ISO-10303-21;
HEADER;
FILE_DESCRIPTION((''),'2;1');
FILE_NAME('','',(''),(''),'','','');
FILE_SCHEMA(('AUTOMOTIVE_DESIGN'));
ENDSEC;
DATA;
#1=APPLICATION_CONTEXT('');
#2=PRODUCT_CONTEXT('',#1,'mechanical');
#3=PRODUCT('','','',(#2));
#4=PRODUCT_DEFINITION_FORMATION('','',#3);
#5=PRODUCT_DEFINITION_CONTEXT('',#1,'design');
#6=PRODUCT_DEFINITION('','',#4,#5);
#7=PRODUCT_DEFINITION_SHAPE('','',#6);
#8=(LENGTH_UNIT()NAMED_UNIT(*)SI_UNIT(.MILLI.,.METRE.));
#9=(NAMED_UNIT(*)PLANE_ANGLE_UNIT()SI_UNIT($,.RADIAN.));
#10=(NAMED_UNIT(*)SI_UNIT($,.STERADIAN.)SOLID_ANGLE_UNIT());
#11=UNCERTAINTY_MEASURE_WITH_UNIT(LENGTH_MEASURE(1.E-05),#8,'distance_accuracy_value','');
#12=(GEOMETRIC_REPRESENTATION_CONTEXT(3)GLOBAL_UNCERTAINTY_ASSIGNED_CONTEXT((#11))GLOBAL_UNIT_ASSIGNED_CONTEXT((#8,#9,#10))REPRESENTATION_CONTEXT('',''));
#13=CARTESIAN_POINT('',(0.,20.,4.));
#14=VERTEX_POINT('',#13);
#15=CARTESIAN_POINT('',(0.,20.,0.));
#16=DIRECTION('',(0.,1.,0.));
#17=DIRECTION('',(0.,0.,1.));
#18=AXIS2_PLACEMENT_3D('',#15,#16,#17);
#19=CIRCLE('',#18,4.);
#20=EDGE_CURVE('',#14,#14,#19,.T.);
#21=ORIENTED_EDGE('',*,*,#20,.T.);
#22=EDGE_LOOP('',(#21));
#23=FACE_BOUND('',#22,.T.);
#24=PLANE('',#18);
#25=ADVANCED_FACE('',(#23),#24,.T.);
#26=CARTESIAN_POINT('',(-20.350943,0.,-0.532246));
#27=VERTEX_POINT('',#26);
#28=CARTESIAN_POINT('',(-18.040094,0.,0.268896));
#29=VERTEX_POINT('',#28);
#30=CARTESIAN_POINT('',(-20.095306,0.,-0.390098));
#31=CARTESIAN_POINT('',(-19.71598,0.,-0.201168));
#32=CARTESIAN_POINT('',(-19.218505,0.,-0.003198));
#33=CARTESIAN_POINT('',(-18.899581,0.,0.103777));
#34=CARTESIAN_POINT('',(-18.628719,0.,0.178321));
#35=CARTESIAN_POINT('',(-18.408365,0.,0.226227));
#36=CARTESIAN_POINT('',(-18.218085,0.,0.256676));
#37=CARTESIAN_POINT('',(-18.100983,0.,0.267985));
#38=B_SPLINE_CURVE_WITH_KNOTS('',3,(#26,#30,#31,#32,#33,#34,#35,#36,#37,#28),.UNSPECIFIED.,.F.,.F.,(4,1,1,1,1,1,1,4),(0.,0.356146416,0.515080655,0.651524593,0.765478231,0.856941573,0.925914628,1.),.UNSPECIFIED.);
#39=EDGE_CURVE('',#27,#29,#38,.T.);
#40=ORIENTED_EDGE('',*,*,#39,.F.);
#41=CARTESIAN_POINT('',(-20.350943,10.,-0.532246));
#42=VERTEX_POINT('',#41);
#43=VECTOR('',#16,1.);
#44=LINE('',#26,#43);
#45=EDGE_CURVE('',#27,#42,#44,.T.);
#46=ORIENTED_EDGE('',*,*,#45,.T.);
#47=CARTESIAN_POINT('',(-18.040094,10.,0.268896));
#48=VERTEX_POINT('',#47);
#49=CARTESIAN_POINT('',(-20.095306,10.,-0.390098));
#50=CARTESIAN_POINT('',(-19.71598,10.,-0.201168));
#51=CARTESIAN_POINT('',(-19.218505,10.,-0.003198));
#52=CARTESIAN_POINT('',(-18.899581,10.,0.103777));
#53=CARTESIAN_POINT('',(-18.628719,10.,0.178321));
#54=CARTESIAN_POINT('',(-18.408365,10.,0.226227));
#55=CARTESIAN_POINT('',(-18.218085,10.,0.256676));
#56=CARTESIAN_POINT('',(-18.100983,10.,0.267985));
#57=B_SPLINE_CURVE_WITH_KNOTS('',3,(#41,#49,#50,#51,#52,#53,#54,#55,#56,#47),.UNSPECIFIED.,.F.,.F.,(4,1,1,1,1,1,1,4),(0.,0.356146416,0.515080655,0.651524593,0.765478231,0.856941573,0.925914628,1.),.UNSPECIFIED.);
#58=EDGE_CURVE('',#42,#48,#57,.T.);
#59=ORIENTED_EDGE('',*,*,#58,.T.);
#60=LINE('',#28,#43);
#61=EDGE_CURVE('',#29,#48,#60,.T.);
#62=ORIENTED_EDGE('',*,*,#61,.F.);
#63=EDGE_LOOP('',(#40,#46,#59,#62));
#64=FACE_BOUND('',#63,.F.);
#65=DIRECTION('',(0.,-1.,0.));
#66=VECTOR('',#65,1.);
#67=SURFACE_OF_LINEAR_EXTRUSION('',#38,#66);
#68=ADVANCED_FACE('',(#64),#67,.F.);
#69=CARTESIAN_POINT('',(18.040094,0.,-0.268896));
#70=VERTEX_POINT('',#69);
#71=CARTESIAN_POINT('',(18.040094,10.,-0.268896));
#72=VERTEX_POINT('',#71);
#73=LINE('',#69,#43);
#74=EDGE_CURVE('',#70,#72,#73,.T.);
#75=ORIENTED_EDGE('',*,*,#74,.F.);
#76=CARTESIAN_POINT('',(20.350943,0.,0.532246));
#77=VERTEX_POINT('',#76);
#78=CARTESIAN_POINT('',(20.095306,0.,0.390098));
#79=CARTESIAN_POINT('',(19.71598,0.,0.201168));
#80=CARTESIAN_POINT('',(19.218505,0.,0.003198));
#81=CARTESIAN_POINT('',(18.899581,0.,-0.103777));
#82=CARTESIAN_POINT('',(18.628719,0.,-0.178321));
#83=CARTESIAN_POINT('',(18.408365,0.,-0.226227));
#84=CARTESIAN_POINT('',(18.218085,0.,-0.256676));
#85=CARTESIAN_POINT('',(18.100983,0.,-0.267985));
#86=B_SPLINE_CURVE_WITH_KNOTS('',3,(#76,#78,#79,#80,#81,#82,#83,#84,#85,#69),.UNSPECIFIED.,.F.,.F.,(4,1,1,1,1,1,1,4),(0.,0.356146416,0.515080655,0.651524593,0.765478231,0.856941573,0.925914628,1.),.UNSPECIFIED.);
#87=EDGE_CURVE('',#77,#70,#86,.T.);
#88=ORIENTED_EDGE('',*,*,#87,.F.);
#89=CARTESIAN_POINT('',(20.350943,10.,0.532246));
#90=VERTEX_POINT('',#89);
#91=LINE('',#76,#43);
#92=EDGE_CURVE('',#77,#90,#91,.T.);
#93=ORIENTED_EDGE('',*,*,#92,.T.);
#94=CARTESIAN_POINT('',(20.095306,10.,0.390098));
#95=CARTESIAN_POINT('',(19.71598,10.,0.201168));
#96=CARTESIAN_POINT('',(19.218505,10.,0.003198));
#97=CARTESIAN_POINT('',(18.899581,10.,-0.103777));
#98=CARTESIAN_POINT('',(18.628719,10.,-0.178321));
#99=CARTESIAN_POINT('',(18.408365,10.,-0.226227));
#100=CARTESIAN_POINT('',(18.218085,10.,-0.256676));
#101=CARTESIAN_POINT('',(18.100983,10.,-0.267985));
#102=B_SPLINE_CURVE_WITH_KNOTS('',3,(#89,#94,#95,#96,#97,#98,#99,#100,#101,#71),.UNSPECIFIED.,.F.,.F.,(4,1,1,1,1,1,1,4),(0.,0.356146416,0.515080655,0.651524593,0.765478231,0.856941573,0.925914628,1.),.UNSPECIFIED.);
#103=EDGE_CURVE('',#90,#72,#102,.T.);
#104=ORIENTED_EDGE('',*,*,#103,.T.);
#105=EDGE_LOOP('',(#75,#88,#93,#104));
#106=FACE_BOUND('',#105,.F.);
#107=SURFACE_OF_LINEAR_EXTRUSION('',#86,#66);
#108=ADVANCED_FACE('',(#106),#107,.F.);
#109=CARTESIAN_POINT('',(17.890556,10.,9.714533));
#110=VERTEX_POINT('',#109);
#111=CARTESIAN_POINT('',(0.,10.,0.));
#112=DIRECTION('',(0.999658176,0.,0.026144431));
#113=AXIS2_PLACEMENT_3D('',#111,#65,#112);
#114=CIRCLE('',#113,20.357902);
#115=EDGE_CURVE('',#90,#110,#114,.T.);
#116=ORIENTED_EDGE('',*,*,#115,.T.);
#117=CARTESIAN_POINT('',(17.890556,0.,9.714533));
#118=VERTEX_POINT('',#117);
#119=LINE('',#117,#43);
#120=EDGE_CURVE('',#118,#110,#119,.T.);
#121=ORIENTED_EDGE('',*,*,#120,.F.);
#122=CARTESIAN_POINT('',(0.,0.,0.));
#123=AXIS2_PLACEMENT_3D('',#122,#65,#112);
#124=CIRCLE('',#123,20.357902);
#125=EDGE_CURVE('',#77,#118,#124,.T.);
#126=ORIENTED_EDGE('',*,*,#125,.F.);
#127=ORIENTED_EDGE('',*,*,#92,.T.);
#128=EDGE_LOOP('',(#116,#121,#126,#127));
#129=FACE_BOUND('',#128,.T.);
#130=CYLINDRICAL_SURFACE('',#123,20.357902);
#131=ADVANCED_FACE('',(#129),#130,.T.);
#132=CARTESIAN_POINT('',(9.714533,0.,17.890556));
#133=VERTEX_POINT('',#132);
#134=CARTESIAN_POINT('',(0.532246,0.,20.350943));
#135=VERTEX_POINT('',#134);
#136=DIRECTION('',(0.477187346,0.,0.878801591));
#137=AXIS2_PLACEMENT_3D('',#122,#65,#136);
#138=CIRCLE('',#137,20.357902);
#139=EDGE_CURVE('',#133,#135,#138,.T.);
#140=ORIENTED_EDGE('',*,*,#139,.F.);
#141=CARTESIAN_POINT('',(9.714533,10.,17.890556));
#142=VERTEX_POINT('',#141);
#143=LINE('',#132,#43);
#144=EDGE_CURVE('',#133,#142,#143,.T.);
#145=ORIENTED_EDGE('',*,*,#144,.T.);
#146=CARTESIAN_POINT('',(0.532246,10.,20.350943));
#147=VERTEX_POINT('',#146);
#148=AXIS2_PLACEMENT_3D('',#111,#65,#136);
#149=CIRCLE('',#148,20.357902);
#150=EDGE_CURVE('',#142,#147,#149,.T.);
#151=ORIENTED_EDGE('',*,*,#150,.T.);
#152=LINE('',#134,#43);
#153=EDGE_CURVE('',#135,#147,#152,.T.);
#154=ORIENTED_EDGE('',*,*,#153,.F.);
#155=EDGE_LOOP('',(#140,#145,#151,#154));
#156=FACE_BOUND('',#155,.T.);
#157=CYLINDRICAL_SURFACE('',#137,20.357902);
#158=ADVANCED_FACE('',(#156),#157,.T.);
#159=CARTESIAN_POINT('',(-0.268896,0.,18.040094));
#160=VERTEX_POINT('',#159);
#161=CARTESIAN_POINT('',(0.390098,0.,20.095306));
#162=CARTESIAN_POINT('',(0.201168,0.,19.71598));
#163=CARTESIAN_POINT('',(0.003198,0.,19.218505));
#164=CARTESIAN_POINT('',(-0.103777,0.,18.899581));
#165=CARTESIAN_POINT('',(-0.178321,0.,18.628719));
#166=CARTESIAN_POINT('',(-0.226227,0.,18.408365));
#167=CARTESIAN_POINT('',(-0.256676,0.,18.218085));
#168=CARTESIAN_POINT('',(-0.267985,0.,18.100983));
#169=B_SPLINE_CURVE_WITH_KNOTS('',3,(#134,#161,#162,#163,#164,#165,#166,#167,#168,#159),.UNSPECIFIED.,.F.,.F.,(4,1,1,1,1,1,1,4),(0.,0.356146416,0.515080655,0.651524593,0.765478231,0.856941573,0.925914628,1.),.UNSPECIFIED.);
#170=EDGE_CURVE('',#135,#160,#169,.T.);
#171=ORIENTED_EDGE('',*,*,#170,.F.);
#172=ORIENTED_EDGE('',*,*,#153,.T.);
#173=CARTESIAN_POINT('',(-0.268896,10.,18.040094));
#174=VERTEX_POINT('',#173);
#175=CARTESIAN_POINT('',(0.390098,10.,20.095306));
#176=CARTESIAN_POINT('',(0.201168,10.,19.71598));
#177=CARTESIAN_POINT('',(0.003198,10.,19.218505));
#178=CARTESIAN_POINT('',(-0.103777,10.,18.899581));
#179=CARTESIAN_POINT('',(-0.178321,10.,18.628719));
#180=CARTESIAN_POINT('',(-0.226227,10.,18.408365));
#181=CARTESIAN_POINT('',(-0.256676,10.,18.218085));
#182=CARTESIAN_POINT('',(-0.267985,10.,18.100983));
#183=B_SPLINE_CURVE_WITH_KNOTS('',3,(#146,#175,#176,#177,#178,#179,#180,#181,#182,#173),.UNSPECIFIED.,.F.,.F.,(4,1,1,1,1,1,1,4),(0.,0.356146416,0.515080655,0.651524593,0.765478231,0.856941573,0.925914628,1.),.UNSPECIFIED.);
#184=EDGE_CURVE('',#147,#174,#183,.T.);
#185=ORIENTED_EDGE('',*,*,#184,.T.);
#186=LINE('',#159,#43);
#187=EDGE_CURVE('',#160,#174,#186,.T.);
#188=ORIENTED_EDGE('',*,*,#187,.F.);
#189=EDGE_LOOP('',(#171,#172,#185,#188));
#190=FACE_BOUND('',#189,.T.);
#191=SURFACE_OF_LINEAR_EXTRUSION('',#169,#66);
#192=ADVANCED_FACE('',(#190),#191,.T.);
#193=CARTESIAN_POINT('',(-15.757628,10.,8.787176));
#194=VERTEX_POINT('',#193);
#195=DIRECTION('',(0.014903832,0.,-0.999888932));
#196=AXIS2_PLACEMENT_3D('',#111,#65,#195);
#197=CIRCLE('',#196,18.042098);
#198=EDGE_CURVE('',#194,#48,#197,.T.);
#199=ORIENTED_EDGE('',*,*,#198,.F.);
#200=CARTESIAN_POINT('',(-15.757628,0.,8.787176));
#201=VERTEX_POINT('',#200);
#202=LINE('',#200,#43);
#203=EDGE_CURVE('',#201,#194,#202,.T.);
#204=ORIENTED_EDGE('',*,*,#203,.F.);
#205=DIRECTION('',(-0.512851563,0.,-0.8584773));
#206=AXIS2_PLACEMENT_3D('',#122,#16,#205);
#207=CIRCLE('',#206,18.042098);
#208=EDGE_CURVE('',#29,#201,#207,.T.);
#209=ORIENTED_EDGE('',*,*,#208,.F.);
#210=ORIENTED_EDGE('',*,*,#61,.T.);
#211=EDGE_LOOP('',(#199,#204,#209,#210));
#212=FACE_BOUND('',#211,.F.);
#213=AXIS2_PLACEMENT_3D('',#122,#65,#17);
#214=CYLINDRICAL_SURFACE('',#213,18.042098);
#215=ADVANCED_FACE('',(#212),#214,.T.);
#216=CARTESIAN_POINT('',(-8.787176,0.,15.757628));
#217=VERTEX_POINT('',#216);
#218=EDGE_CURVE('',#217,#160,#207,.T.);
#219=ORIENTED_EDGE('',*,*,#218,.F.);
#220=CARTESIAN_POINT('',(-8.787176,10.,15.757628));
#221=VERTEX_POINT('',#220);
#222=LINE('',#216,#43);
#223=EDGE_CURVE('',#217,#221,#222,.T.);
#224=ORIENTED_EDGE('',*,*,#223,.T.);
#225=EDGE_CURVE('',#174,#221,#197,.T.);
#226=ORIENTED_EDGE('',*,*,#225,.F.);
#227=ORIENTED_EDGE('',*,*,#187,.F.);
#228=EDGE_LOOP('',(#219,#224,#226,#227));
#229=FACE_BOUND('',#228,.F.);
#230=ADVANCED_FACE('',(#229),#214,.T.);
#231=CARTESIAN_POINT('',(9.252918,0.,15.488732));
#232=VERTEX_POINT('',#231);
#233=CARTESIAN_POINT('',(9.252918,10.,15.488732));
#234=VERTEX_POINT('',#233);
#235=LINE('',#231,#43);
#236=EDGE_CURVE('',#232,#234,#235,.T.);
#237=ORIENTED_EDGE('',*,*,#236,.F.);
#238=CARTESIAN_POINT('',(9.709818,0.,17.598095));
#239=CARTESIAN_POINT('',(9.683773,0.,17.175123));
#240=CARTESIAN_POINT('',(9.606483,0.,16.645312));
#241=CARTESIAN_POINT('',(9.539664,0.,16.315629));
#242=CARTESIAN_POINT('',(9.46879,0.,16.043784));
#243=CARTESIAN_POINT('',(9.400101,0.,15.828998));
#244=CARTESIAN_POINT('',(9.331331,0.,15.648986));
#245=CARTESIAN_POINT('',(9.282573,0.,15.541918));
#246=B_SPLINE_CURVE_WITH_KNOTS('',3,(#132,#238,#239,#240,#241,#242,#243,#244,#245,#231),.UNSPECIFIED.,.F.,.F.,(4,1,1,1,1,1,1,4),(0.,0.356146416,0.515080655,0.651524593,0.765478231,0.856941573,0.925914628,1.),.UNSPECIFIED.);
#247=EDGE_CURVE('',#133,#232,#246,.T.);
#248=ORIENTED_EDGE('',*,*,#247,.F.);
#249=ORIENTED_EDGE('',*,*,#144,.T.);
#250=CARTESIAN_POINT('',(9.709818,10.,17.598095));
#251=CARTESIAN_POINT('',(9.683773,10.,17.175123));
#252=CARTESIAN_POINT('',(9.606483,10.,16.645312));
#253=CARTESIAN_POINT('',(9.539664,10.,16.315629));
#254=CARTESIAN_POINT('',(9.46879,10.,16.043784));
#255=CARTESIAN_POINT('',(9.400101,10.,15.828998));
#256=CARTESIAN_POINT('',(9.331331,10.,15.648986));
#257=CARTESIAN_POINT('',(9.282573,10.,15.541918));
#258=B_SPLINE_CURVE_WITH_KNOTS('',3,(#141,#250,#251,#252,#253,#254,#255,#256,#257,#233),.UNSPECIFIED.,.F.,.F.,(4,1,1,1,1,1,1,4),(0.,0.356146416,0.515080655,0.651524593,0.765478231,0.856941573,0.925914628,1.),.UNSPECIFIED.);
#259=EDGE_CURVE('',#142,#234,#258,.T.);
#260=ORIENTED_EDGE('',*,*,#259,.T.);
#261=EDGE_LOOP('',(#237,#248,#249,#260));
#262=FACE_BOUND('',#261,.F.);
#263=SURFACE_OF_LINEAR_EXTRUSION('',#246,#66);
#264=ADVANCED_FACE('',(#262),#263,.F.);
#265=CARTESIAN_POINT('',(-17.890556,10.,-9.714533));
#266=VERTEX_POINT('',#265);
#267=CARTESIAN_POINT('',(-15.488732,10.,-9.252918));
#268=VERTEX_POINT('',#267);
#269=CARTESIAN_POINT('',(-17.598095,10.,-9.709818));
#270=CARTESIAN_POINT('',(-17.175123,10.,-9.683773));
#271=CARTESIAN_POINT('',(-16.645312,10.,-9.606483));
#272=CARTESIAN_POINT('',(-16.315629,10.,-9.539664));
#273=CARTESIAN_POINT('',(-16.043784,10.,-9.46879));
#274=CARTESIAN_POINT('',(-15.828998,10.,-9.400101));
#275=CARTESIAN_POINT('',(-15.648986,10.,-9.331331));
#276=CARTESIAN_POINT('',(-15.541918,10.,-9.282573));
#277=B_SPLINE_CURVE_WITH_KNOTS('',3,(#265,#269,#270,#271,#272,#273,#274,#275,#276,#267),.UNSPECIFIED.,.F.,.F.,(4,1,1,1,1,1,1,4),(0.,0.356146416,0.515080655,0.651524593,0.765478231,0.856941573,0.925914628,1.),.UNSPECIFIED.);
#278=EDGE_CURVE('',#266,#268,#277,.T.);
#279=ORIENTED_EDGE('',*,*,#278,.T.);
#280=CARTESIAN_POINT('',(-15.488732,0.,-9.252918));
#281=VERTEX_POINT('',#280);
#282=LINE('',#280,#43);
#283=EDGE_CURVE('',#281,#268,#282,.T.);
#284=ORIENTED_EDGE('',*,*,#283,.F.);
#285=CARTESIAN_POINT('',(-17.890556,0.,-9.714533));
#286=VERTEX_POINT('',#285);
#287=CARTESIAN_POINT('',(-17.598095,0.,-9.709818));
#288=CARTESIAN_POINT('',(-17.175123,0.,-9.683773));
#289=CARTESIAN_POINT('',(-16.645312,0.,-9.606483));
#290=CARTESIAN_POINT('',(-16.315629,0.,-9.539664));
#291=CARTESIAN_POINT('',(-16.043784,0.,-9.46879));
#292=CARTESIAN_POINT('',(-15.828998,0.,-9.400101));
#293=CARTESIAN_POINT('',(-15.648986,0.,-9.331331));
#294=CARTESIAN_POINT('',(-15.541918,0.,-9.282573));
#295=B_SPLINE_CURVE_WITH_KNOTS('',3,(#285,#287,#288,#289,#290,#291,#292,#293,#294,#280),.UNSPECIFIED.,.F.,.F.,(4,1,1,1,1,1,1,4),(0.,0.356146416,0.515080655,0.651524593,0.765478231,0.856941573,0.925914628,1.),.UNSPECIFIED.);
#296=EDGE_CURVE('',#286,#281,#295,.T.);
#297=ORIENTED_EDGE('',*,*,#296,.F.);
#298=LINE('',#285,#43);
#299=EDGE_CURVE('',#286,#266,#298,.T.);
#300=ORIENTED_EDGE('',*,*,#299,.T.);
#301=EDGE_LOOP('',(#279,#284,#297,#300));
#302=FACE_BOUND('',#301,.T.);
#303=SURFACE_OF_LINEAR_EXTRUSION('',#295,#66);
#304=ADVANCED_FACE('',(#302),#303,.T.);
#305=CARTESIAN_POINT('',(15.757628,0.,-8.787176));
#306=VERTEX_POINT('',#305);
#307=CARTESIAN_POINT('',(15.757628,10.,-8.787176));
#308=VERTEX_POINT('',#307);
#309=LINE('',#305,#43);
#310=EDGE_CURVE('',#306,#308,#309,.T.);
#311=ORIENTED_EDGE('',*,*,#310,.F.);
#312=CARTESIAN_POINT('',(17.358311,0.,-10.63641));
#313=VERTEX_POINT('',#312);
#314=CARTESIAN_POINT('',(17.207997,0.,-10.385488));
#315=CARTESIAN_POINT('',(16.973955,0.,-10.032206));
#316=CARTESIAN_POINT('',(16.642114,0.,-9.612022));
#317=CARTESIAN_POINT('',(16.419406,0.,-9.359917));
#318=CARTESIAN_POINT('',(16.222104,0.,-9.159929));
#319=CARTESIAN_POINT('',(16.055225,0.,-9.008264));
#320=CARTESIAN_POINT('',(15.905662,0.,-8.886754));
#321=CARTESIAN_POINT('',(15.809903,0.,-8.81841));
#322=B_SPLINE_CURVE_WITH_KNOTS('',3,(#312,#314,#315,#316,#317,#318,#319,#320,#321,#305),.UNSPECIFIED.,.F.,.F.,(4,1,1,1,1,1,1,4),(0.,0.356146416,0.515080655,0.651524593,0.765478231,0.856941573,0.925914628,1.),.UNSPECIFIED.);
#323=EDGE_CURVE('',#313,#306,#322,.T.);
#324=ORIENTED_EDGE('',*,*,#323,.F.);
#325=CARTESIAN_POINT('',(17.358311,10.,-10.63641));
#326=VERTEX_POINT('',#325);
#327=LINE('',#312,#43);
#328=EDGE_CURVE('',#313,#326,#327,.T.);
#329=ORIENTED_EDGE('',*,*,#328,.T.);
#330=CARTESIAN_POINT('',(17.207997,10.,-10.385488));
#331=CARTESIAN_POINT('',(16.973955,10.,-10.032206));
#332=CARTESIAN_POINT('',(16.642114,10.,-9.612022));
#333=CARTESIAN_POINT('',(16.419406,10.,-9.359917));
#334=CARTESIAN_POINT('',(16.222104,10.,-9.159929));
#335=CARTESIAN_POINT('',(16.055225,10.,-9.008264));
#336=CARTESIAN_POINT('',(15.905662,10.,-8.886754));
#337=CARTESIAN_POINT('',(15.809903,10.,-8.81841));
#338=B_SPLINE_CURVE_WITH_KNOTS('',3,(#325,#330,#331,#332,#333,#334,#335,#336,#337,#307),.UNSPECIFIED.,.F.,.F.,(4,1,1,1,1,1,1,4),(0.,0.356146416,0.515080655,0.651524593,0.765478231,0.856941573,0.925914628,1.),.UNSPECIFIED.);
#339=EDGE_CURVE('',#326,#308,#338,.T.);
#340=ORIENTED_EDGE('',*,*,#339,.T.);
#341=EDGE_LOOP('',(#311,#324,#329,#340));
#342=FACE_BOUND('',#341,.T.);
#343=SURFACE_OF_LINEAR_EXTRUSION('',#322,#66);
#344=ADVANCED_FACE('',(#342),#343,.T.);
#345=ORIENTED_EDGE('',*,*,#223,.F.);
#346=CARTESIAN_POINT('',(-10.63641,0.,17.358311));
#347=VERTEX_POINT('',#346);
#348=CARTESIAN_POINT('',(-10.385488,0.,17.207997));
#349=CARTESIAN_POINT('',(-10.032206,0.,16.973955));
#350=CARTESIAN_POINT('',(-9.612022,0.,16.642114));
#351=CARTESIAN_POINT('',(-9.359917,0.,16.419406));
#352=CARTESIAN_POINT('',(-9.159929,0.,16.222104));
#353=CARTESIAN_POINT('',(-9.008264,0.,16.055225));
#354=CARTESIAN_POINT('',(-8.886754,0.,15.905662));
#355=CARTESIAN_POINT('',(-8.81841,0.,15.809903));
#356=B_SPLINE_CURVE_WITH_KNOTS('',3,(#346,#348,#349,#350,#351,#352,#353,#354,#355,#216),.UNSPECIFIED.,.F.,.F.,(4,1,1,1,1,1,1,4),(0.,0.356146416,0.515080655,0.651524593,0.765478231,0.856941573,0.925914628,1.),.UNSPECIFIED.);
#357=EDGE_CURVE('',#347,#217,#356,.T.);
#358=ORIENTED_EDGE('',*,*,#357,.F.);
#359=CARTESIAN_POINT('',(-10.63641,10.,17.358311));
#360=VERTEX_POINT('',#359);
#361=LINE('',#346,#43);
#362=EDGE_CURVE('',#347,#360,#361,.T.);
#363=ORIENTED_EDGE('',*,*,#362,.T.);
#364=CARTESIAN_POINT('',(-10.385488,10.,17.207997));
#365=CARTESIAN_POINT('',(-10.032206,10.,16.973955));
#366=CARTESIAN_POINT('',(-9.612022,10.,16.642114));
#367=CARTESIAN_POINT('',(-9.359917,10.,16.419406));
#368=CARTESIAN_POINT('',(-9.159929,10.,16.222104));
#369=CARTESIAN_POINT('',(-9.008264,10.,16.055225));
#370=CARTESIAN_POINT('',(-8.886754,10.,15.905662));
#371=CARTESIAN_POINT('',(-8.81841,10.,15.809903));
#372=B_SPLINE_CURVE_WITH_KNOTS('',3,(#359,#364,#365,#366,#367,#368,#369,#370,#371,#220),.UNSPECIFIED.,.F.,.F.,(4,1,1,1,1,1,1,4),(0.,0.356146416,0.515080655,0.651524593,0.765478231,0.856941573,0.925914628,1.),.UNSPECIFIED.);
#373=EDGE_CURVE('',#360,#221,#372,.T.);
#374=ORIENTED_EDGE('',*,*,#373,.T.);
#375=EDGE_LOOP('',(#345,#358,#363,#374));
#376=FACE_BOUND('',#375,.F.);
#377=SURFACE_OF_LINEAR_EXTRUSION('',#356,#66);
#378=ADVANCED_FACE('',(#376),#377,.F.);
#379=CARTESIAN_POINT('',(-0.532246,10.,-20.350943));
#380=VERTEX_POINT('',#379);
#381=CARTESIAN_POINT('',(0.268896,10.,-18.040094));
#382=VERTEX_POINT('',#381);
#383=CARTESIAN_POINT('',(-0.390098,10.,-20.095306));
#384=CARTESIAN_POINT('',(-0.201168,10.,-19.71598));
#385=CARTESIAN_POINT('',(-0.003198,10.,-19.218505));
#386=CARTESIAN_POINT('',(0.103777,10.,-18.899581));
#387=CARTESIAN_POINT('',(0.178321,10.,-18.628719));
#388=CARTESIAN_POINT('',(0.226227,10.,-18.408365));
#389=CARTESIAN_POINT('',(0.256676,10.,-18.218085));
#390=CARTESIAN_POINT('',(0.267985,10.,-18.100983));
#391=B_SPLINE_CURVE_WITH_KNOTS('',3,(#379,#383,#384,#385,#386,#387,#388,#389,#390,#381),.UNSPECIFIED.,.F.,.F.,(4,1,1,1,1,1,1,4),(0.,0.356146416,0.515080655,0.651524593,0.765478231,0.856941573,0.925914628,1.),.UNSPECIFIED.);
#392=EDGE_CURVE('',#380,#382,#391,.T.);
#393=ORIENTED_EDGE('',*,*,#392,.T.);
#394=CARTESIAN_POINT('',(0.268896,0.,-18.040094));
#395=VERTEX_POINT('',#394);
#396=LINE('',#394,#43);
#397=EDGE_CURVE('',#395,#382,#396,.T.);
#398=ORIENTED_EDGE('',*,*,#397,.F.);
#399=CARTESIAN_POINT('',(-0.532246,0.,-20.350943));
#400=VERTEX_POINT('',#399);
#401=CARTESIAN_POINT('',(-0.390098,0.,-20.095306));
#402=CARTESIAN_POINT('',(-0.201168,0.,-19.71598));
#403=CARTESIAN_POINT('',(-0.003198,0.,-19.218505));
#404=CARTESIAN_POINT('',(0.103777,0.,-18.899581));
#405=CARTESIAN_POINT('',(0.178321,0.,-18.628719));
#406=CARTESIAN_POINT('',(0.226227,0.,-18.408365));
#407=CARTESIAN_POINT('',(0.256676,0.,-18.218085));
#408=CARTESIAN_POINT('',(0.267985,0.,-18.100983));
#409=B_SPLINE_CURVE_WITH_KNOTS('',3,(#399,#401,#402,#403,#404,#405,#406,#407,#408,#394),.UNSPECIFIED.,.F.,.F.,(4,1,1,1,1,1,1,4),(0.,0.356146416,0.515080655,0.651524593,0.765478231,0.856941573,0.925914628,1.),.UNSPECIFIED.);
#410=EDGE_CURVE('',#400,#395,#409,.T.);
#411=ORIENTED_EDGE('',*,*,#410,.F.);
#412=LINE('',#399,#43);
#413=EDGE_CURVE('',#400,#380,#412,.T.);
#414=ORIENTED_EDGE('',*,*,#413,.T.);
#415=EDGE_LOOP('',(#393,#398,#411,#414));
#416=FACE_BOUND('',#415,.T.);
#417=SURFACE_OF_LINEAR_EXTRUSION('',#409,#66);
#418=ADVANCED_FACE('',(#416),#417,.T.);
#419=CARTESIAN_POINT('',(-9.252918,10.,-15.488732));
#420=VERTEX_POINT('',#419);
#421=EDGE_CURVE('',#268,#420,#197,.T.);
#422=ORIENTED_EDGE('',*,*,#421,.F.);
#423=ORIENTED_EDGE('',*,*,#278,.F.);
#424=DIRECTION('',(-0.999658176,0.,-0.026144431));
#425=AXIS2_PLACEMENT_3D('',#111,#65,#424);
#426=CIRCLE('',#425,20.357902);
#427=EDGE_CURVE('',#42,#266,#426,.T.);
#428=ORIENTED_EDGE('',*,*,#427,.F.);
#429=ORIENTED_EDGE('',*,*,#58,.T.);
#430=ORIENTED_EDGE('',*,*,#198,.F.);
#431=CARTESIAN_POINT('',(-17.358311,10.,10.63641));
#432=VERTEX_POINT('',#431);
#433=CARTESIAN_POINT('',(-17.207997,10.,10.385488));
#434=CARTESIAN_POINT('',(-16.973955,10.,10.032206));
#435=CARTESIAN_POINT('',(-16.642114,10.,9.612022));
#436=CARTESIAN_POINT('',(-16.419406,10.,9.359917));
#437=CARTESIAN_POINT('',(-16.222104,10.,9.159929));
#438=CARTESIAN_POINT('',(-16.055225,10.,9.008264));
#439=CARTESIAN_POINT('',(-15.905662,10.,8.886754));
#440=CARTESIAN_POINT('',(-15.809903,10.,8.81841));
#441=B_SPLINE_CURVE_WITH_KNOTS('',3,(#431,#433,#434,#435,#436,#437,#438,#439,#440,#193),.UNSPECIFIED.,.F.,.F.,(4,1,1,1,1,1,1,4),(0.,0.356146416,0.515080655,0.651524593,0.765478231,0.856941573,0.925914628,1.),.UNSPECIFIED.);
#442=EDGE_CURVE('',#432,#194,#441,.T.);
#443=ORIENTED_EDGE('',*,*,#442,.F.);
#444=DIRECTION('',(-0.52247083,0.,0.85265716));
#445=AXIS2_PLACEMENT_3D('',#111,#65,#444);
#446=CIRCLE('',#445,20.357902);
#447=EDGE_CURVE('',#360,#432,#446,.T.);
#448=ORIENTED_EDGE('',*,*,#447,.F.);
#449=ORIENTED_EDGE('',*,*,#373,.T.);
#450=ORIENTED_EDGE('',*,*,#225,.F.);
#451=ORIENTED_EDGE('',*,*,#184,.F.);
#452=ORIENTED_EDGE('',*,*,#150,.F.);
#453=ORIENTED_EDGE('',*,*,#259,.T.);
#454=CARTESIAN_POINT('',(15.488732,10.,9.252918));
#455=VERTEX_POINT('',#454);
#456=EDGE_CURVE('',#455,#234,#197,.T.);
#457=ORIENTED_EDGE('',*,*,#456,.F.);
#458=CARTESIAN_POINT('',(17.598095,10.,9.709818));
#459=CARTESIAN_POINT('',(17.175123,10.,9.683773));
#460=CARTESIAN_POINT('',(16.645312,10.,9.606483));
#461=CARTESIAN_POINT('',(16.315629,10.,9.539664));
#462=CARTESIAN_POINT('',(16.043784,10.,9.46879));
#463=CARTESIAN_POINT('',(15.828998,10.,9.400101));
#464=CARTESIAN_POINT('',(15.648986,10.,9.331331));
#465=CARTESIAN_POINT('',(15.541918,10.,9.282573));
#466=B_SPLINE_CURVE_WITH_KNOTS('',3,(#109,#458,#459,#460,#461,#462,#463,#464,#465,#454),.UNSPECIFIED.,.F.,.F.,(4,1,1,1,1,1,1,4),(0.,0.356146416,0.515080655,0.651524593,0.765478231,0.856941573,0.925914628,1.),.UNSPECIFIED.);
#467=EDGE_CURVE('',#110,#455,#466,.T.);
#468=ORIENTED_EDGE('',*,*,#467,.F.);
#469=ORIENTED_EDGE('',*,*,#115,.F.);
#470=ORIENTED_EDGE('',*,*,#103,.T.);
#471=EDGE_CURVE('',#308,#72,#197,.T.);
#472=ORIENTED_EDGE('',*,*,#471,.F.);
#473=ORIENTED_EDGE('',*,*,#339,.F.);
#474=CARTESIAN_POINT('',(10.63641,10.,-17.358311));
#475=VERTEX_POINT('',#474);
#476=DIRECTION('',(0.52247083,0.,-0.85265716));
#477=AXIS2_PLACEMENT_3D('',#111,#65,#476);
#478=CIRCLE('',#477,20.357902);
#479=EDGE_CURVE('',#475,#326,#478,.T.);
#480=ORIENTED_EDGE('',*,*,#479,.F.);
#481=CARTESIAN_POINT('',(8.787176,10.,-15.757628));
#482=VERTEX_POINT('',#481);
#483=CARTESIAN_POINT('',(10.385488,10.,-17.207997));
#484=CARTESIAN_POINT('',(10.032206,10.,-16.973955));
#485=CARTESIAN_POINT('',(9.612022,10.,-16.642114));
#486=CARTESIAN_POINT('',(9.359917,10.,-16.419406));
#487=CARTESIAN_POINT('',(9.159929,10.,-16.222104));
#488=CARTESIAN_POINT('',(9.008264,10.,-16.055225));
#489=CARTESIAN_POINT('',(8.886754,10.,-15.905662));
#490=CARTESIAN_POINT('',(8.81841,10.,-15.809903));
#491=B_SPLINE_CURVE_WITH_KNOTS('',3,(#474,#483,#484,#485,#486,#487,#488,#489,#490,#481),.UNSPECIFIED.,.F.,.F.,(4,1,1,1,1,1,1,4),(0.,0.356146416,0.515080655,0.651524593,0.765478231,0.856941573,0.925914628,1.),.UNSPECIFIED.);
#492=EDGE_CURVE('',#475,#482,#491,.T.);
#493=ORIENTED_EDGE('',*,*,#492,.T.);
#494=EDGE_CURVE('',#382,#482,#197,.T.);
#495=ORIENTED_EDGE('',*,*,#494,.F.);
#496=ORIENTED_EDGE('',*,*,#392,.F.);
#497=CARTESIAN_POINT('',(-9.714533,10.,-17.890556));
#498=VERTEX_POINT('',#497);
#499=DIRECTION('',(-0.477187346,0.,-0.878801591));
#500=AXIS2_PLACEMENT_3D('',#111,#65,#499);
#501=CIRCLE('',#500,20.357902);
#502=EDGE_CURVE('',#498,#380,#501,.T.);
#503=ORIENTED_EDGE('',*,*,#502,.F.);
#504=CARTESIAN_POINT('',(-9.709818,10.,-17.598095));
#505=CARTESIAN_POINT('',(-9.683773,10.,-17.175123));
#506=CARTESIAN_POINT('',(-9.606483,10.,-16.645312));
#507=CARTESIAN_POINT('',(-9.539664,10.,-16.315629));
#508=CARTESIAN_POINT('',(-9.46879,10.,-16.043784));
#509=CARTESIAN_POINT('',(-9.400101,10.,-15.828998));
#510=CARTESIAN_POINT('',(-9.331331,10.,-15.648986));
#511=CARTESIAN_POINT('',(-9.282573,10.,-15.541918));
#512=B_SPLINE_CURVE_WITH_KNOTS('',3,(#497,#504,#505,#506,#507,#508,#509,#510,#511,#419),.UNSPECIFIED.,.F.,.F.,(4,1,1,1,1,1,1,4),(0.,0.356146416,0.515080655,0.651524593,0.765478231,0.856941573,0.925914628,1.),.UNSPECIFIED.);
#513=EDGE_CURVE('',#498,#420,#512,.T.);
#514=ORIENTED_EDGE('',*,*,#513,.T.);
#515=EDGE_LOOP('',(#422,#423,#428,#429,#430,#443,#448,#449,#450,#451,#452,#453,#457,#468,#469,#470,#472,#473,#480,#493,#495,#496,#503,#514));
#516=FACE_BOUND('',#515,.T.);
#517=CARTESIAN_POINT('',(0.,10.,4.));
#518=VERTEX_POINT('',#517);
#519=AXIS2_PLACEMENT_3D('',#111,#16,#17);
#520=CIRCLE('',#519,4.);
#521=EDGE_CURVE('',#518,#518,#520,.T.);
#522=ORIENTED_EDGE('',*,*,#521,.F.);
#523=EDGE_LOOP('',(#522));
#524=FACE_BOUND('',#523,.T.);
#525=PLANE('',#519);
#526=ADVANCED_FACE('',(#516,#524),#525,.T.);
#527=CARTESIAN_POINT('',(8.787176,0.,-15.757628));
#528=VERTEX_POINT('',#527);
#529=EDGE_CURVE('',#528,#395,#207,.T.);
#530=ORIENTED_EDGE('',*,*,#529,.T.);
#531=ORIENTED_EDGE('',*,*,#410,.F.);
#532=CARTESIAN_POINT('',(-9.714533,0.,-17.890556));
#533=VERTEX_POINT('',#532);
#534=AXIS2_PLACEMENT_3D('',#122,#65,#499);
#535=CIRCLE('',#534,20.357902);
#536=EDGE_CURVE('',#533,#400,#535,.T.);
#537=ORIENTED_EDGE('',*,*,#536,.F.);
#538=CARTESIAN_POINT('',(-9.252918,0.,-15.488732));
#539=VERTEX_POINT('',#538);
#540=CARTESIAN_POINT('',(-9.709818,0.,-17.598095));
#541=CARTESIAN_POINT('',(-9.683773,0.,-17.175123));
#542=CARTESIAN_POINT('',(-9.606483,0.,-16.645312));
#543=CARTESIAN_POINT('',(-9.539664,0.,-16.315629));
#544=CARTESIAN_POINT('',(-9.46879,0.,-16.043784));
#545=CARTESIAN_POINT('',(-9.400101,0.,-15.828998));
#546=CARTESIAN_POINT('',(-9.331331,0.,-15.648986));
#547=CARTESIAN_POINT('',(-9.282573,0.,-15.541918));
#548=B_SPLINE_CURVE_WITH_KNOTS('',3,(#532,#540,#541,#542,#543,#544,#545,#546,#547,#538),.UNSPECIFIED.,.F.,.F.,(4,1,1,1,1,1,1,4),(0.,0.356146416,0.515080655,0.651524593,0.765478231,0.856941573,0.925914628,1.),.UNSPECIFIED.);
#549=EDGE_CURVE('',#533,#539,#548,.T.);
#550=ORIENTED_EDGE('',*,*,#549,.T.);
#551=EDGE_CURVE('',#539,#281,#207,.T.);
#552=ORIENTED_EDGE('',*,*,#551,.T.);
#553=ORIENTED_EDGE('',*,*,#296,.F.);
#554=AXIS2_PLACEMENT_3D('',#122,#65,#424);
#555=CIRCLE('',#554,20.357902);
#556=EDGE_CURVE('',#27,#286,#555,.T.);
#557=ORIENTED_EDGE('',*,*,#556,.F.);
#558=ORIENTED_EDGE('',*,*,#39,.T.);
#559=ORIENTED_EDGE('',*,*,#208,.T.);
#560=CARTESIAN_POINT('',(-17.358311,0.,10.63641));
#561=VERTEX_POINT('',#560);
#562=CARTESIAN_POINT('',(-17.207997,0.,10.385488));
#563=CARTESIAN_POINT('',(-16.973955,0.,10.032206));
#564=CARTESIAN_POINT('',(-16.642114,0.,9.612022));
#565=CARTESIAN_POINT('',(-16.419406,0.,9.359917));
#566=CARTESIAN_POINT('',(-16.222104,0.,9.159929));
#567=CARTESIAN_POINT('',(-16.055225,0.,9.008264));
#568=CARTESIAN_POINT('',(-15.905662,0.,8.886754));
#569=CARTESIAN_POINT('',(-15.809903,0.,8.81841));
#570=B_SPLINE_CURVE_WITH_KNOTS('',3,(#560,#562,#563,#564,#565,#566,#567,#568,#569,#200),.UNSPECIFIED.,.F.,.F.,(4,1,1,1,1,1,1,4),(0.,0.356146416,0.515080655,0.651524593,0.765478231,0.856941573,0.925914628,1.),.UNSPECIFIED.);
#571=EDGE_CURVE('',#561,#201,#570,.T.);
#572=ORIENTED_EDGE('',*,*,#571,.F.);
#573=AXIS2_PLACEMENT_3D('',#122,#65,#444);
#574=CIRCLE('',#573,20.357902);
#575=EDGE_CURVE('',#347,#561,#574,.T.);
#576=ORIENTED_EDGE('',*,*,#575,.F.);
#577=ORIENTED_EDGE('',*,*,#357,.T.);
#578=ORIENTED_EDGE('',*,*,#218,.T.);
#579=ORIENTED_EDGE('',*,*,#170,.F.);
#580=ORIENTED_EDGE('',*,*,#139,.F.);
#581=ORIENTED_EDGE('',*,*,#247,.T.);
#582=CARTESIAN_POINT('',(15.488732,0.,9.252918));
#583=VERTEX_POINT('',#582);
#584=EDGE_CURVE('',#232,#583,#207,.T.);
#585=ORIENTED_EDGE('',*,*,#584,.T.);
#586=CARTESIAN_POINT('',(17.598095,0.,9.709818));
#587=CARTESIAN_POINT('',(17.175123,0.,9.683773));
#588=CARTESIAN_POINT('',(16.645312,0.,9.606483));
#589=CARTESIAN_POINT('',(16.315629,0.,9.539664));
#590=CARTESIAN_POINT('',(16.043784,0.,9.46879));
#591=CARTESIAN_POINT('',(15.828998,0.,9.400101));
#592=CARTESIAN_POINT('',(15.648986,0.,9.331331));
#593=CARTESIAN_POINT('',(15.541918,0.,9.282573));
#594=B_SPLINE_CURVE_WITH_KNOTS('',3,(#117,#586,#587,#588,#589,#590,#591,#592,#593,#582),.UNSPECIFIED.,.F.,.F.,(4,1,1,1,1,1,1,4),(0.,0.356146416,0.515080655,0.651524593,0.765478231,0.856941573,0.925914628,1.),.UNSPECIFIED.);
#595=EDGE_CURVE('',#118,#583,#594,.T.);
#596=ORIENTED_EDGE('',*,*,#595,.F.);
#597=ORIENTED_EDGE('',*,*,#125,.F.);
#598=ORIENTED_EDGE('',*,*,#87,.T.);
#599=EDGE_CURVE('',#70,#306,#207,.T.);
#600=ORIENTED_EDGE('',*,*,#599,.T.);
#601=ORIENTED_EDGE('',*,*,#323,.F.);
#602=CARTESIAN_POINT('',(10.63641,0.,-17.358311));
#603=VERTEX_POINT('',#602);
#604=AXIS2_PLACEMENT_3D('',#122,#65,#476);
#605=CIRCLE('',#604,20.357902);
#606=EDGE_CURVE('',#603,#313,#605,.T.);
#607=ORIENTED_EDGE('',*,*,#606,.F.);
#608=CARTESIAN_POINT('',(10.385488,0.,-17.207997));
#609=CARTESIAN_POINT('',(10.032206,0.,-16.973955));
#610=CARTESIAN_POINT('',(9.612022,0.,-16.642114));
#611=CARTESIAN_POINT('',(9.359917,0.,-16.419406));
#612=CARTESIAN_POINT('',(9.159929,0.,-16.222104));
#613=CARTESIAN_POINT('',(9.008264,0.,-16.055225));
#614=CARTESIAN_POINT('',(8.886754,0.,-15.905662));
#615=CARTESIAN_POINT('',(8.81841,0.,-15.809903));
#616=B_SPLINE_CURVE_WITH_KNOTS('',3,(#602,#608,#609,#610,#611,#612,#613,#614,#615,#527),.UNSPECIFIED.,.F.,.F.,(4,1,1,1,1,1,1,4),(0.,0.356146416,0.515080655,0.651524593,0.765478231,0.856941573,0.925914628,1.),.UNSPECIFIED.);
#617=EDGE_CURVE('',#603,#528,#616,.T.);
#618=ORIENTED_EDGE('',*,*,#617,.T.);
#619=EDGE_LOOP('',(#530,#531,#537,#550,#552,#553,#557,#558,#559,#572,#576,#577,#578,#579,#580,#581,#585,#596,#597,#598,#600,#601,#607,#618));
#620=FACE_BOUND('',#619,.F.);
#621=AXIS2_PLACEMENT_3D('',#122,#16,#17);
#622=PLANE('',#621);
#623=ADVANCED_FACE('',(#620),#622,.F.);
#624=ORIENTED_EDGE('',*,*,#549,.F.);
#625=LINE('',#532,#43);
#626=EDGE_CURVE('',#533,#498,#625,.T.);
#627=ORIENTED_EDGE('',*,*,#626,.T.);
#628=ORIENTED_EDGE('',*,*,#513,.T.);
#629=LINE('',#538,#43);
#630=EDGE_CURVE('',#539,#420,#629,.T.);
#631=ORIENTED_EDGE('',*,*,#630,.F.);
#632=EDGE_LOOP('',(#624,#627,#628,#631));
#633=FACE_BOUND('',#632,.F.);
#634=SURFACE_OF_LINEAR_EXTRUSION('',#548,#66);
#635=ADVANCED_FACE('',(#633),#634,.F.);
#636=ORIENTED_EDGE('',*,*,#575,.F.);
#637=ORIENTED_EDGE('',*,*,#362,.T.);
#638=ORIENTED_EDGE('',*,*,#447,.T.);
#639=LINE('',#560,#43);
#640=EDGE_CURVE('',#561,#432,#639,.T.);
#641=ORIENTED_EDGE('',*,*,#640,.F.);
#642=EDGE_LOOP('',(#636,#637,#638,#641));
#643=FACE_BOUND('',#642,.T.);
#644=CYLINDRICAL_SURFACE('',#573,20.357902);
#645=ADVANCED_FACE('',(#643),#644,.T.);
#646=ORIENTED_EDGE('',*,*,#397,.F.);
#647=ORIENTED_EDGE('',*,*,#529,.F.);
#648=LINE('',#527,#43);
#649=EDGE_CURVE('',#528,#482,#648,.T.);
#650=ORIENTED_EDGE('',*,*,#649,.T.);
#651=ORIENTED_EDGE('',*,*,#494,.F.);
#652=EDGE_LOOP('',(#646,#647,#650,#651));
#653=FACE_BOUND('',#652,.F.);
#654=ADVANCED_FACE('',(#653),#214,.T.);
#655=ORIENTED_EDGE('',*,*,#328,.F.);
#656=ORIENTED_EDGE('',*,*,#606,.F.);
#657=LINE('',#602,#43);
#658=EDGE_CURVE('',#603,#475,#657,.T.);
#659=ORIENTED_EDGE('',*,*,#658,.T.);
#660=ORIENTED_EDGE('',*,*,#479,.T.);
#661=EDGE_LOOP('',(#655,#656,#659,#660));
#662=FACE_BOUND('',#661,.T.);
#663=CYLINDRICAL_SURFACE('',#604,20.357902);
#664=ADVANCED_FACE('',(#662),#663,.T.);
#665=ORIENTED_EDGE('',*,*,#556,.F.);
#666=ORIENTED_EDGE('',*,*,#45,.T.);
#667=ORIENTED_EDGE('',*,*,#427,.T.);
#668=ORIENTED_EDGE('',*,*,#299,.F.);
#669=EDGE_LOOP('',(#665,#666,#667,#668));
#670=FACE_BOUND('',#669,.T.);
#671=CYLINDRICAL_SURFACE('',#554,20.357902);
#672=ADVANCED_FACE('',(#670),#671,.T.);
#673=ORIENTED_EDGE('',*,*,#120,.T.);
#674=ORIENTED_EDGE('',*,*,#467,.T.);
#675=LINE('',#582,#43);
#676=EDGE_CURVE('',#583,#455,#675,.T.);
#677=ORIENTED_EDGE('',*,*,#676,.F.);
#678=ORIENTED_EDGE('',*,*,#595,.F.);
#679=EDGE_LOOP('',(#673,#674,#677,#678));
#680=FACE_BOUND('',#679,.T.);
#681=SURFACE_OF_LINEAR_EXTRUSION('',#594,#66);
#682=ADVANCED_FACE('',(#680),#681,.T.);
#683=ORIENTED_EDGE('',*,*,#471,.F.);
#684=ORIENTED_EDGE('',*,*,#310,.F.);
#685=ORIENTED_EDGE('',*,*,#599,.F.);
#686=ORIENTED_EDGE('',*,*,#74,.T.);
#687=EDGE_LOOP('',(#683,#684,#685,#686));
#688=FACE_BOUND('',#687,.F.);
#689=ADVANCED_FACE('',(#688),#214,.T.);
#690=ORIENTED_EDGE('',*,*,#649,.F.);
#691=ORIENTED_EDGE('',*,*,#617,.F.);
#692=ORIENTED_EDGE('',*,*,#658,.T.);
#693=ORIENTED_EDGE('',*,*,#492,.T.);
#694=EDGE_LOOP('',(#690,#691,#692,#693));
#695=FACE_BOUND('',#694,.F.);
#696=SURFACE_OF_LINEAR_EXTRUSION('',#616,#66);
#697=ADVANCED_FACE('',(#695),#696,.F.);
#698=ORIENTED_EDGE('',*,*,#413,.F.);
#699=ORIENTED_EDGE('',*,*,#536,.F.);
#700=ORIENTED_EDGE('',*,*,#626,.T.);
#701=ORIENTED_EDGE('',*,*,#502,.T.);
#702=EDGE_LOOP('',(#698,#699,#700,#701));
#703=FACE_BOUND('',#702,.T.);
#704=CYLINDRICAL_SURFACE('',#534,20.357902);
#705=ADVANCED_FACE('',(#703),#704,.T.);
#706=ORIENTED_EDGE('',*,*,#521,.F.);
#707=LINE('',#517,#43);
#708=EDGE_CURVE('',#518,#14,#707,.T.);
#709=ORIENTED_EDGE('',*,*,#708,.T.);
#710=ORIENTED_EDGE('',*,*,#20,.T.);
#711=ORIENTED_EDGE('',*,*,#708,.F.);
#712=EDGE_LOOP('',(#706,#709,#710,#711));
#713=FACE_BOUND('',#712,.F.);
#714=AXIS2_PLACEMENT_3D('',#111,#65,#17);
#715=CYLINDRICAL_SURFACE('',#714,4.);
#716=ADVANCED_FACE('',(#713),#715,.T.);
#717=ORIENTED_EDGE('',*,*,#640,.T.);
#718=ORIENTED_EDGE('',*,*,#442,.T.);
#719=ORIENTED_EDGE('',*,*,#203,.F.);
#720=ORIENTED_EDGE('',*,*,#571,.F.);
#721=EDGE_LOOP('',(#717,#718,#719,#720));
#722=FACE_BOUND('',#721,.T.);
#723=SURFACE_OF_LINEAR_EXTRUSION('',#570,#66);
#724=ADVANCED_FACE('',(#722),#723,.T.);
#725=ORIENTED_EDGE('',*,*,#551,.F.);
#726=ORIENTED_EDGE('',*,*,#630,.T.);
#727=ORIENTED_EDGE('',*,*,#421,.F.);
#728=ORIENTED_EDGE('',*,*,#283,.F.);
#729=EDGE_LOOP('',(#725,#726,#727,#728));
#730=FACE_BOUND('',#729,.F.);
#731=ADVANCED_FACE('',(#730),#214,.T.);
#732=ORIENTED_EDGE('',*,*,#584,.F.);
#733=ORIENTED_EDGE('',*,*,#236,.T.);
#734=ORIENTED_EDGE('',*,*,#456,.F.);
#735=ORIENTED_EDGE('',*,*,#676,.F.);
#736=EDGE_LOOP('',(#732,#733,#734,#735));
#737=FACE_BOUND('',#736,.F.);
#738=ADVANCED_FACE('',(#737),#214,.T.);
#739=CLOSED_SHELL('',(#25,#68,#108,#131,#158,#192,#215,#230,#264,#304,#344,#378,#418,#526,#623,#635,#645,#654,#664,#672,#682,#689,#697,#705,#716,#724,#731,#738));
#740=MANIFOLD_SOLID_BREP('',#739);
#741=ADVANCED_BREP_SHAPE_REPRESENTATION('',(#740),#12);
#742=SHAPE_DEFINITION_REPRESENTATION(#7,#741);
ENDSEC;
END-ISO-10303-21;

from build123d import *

# Parameters (mm, degrees)
SKETCH_1_R               = 18.042098319
EXTRUDE_1_DEPTH          = 10
EXTRUDE_2_DEPTH          = 10
PATTERN_CIRCULAR_1_COUNT = 6
SKETCH_5_R               = 4
EXTRUDE_3_DEPTH          = 10


with BuildPart() as part:
    # ｽｹｯﾁ1 → ﾎﾞｽ - 押し出し1 (new body)
    with BuildSketch(Plane(origin=(0, 0, 0), x_dir=(1, 0, 0), z_dir=(0, 1, 0))):
        with Locations(Location((0, 0, 0), (0, 0, 270))):
            Circle(SKETCH_1_R)
    extrude(amount=EXTRUDE_1_DEPTH)

    # ｽｹｯﾁ4 → ﾎﾞｽ - 押し出し2 (add)
    with BuildSketch(Plane(origin=(0, 0, 0), x_dir=(1, 0, 0), z_dir=(0, 1, 0))):
        with BuildLine():
            ThreePointArc((0.268896403, 18.040094414), (-4.669638659, 17.427328727), (-9.252918324, 15.488731848))
            add(Edge.make_bspline(
                [(-9.714533079, 17.890556389), (-9.709818433, 17.598094858), (-9.683773216, 17.175123253), (-9.606482839, 16.645312354), (-9.53966415, 16.315628537), (-9.468789573, 16.043783597), (-9.40010103, 15.828997964), (-9.331330572, 15.648985933), (-9.28257301, 15.54191839), (-9.252918324, 15.488731848)],
                knots=[0, 0, 0, 0, 0.356146416, 0.515080655, 0.651524593, 0.765478231, 0.856941573, 0.925914628, 1, 1, 1, 1], degree=3))
            ThreePointArc((-9.714533079, 17.890556389), (-5.269012673, 19.664223003), (-0.532245762, 20.35094286))
            add(Edge.make_bspline(
                [(-0.532245762, 20.35094286), (-0.390098, 20.095306422), (-0.201168016, 19.715979658), (-0.003197997, 19.218504772), (0.103777229, 18.899580866), (0.178320514, 18.628718954), (0.226227308, 18.408364869), (0.25667636, 18.218084648), (0.267984844, 18.100982654), (0.268896403, 18.040094414)],
                knots=[0, 0, 0, 0, 0.356146416, 0.515080655, 0.651524593, 0.765478231, 0.856941573, 0.925914628, 1, 1, 1, 1], degree=3))
        make_face()
    extrude_2 = extrude(amount=EXTRUDE_2_DEPTH)

    # 円形ﾊﾟﾀｰﾝ1: ﾎﾞｽ - 押し出し2 ×6 about axis
    pattern_circular_1_axis = Axis((0, 10, 0), (0, 1, 0))
    for i in range(1, PATTERN_CIRCULAR_1_COUNT):
        add(extrude_2.rotate(pattern_circular_1_axis, i * 360 / PATTERN_CIRCULAR_1_COUNT))

    # ｽｹｯﾁ5 → ﾎﾞｽ - 押し出し3 (add)
    with BuildSketch(Plane(origin=(0, 10, 0), x_dir=(1, 0, 0), z_dir=(0, 1, 0))):
        with Locations(Location((0, 0, 0), (0, 0, 270))):
            Circle(SKETCH_5_R)
    extrude(amount=EXTRUDE_3_DEPTH)


solid = part.part
